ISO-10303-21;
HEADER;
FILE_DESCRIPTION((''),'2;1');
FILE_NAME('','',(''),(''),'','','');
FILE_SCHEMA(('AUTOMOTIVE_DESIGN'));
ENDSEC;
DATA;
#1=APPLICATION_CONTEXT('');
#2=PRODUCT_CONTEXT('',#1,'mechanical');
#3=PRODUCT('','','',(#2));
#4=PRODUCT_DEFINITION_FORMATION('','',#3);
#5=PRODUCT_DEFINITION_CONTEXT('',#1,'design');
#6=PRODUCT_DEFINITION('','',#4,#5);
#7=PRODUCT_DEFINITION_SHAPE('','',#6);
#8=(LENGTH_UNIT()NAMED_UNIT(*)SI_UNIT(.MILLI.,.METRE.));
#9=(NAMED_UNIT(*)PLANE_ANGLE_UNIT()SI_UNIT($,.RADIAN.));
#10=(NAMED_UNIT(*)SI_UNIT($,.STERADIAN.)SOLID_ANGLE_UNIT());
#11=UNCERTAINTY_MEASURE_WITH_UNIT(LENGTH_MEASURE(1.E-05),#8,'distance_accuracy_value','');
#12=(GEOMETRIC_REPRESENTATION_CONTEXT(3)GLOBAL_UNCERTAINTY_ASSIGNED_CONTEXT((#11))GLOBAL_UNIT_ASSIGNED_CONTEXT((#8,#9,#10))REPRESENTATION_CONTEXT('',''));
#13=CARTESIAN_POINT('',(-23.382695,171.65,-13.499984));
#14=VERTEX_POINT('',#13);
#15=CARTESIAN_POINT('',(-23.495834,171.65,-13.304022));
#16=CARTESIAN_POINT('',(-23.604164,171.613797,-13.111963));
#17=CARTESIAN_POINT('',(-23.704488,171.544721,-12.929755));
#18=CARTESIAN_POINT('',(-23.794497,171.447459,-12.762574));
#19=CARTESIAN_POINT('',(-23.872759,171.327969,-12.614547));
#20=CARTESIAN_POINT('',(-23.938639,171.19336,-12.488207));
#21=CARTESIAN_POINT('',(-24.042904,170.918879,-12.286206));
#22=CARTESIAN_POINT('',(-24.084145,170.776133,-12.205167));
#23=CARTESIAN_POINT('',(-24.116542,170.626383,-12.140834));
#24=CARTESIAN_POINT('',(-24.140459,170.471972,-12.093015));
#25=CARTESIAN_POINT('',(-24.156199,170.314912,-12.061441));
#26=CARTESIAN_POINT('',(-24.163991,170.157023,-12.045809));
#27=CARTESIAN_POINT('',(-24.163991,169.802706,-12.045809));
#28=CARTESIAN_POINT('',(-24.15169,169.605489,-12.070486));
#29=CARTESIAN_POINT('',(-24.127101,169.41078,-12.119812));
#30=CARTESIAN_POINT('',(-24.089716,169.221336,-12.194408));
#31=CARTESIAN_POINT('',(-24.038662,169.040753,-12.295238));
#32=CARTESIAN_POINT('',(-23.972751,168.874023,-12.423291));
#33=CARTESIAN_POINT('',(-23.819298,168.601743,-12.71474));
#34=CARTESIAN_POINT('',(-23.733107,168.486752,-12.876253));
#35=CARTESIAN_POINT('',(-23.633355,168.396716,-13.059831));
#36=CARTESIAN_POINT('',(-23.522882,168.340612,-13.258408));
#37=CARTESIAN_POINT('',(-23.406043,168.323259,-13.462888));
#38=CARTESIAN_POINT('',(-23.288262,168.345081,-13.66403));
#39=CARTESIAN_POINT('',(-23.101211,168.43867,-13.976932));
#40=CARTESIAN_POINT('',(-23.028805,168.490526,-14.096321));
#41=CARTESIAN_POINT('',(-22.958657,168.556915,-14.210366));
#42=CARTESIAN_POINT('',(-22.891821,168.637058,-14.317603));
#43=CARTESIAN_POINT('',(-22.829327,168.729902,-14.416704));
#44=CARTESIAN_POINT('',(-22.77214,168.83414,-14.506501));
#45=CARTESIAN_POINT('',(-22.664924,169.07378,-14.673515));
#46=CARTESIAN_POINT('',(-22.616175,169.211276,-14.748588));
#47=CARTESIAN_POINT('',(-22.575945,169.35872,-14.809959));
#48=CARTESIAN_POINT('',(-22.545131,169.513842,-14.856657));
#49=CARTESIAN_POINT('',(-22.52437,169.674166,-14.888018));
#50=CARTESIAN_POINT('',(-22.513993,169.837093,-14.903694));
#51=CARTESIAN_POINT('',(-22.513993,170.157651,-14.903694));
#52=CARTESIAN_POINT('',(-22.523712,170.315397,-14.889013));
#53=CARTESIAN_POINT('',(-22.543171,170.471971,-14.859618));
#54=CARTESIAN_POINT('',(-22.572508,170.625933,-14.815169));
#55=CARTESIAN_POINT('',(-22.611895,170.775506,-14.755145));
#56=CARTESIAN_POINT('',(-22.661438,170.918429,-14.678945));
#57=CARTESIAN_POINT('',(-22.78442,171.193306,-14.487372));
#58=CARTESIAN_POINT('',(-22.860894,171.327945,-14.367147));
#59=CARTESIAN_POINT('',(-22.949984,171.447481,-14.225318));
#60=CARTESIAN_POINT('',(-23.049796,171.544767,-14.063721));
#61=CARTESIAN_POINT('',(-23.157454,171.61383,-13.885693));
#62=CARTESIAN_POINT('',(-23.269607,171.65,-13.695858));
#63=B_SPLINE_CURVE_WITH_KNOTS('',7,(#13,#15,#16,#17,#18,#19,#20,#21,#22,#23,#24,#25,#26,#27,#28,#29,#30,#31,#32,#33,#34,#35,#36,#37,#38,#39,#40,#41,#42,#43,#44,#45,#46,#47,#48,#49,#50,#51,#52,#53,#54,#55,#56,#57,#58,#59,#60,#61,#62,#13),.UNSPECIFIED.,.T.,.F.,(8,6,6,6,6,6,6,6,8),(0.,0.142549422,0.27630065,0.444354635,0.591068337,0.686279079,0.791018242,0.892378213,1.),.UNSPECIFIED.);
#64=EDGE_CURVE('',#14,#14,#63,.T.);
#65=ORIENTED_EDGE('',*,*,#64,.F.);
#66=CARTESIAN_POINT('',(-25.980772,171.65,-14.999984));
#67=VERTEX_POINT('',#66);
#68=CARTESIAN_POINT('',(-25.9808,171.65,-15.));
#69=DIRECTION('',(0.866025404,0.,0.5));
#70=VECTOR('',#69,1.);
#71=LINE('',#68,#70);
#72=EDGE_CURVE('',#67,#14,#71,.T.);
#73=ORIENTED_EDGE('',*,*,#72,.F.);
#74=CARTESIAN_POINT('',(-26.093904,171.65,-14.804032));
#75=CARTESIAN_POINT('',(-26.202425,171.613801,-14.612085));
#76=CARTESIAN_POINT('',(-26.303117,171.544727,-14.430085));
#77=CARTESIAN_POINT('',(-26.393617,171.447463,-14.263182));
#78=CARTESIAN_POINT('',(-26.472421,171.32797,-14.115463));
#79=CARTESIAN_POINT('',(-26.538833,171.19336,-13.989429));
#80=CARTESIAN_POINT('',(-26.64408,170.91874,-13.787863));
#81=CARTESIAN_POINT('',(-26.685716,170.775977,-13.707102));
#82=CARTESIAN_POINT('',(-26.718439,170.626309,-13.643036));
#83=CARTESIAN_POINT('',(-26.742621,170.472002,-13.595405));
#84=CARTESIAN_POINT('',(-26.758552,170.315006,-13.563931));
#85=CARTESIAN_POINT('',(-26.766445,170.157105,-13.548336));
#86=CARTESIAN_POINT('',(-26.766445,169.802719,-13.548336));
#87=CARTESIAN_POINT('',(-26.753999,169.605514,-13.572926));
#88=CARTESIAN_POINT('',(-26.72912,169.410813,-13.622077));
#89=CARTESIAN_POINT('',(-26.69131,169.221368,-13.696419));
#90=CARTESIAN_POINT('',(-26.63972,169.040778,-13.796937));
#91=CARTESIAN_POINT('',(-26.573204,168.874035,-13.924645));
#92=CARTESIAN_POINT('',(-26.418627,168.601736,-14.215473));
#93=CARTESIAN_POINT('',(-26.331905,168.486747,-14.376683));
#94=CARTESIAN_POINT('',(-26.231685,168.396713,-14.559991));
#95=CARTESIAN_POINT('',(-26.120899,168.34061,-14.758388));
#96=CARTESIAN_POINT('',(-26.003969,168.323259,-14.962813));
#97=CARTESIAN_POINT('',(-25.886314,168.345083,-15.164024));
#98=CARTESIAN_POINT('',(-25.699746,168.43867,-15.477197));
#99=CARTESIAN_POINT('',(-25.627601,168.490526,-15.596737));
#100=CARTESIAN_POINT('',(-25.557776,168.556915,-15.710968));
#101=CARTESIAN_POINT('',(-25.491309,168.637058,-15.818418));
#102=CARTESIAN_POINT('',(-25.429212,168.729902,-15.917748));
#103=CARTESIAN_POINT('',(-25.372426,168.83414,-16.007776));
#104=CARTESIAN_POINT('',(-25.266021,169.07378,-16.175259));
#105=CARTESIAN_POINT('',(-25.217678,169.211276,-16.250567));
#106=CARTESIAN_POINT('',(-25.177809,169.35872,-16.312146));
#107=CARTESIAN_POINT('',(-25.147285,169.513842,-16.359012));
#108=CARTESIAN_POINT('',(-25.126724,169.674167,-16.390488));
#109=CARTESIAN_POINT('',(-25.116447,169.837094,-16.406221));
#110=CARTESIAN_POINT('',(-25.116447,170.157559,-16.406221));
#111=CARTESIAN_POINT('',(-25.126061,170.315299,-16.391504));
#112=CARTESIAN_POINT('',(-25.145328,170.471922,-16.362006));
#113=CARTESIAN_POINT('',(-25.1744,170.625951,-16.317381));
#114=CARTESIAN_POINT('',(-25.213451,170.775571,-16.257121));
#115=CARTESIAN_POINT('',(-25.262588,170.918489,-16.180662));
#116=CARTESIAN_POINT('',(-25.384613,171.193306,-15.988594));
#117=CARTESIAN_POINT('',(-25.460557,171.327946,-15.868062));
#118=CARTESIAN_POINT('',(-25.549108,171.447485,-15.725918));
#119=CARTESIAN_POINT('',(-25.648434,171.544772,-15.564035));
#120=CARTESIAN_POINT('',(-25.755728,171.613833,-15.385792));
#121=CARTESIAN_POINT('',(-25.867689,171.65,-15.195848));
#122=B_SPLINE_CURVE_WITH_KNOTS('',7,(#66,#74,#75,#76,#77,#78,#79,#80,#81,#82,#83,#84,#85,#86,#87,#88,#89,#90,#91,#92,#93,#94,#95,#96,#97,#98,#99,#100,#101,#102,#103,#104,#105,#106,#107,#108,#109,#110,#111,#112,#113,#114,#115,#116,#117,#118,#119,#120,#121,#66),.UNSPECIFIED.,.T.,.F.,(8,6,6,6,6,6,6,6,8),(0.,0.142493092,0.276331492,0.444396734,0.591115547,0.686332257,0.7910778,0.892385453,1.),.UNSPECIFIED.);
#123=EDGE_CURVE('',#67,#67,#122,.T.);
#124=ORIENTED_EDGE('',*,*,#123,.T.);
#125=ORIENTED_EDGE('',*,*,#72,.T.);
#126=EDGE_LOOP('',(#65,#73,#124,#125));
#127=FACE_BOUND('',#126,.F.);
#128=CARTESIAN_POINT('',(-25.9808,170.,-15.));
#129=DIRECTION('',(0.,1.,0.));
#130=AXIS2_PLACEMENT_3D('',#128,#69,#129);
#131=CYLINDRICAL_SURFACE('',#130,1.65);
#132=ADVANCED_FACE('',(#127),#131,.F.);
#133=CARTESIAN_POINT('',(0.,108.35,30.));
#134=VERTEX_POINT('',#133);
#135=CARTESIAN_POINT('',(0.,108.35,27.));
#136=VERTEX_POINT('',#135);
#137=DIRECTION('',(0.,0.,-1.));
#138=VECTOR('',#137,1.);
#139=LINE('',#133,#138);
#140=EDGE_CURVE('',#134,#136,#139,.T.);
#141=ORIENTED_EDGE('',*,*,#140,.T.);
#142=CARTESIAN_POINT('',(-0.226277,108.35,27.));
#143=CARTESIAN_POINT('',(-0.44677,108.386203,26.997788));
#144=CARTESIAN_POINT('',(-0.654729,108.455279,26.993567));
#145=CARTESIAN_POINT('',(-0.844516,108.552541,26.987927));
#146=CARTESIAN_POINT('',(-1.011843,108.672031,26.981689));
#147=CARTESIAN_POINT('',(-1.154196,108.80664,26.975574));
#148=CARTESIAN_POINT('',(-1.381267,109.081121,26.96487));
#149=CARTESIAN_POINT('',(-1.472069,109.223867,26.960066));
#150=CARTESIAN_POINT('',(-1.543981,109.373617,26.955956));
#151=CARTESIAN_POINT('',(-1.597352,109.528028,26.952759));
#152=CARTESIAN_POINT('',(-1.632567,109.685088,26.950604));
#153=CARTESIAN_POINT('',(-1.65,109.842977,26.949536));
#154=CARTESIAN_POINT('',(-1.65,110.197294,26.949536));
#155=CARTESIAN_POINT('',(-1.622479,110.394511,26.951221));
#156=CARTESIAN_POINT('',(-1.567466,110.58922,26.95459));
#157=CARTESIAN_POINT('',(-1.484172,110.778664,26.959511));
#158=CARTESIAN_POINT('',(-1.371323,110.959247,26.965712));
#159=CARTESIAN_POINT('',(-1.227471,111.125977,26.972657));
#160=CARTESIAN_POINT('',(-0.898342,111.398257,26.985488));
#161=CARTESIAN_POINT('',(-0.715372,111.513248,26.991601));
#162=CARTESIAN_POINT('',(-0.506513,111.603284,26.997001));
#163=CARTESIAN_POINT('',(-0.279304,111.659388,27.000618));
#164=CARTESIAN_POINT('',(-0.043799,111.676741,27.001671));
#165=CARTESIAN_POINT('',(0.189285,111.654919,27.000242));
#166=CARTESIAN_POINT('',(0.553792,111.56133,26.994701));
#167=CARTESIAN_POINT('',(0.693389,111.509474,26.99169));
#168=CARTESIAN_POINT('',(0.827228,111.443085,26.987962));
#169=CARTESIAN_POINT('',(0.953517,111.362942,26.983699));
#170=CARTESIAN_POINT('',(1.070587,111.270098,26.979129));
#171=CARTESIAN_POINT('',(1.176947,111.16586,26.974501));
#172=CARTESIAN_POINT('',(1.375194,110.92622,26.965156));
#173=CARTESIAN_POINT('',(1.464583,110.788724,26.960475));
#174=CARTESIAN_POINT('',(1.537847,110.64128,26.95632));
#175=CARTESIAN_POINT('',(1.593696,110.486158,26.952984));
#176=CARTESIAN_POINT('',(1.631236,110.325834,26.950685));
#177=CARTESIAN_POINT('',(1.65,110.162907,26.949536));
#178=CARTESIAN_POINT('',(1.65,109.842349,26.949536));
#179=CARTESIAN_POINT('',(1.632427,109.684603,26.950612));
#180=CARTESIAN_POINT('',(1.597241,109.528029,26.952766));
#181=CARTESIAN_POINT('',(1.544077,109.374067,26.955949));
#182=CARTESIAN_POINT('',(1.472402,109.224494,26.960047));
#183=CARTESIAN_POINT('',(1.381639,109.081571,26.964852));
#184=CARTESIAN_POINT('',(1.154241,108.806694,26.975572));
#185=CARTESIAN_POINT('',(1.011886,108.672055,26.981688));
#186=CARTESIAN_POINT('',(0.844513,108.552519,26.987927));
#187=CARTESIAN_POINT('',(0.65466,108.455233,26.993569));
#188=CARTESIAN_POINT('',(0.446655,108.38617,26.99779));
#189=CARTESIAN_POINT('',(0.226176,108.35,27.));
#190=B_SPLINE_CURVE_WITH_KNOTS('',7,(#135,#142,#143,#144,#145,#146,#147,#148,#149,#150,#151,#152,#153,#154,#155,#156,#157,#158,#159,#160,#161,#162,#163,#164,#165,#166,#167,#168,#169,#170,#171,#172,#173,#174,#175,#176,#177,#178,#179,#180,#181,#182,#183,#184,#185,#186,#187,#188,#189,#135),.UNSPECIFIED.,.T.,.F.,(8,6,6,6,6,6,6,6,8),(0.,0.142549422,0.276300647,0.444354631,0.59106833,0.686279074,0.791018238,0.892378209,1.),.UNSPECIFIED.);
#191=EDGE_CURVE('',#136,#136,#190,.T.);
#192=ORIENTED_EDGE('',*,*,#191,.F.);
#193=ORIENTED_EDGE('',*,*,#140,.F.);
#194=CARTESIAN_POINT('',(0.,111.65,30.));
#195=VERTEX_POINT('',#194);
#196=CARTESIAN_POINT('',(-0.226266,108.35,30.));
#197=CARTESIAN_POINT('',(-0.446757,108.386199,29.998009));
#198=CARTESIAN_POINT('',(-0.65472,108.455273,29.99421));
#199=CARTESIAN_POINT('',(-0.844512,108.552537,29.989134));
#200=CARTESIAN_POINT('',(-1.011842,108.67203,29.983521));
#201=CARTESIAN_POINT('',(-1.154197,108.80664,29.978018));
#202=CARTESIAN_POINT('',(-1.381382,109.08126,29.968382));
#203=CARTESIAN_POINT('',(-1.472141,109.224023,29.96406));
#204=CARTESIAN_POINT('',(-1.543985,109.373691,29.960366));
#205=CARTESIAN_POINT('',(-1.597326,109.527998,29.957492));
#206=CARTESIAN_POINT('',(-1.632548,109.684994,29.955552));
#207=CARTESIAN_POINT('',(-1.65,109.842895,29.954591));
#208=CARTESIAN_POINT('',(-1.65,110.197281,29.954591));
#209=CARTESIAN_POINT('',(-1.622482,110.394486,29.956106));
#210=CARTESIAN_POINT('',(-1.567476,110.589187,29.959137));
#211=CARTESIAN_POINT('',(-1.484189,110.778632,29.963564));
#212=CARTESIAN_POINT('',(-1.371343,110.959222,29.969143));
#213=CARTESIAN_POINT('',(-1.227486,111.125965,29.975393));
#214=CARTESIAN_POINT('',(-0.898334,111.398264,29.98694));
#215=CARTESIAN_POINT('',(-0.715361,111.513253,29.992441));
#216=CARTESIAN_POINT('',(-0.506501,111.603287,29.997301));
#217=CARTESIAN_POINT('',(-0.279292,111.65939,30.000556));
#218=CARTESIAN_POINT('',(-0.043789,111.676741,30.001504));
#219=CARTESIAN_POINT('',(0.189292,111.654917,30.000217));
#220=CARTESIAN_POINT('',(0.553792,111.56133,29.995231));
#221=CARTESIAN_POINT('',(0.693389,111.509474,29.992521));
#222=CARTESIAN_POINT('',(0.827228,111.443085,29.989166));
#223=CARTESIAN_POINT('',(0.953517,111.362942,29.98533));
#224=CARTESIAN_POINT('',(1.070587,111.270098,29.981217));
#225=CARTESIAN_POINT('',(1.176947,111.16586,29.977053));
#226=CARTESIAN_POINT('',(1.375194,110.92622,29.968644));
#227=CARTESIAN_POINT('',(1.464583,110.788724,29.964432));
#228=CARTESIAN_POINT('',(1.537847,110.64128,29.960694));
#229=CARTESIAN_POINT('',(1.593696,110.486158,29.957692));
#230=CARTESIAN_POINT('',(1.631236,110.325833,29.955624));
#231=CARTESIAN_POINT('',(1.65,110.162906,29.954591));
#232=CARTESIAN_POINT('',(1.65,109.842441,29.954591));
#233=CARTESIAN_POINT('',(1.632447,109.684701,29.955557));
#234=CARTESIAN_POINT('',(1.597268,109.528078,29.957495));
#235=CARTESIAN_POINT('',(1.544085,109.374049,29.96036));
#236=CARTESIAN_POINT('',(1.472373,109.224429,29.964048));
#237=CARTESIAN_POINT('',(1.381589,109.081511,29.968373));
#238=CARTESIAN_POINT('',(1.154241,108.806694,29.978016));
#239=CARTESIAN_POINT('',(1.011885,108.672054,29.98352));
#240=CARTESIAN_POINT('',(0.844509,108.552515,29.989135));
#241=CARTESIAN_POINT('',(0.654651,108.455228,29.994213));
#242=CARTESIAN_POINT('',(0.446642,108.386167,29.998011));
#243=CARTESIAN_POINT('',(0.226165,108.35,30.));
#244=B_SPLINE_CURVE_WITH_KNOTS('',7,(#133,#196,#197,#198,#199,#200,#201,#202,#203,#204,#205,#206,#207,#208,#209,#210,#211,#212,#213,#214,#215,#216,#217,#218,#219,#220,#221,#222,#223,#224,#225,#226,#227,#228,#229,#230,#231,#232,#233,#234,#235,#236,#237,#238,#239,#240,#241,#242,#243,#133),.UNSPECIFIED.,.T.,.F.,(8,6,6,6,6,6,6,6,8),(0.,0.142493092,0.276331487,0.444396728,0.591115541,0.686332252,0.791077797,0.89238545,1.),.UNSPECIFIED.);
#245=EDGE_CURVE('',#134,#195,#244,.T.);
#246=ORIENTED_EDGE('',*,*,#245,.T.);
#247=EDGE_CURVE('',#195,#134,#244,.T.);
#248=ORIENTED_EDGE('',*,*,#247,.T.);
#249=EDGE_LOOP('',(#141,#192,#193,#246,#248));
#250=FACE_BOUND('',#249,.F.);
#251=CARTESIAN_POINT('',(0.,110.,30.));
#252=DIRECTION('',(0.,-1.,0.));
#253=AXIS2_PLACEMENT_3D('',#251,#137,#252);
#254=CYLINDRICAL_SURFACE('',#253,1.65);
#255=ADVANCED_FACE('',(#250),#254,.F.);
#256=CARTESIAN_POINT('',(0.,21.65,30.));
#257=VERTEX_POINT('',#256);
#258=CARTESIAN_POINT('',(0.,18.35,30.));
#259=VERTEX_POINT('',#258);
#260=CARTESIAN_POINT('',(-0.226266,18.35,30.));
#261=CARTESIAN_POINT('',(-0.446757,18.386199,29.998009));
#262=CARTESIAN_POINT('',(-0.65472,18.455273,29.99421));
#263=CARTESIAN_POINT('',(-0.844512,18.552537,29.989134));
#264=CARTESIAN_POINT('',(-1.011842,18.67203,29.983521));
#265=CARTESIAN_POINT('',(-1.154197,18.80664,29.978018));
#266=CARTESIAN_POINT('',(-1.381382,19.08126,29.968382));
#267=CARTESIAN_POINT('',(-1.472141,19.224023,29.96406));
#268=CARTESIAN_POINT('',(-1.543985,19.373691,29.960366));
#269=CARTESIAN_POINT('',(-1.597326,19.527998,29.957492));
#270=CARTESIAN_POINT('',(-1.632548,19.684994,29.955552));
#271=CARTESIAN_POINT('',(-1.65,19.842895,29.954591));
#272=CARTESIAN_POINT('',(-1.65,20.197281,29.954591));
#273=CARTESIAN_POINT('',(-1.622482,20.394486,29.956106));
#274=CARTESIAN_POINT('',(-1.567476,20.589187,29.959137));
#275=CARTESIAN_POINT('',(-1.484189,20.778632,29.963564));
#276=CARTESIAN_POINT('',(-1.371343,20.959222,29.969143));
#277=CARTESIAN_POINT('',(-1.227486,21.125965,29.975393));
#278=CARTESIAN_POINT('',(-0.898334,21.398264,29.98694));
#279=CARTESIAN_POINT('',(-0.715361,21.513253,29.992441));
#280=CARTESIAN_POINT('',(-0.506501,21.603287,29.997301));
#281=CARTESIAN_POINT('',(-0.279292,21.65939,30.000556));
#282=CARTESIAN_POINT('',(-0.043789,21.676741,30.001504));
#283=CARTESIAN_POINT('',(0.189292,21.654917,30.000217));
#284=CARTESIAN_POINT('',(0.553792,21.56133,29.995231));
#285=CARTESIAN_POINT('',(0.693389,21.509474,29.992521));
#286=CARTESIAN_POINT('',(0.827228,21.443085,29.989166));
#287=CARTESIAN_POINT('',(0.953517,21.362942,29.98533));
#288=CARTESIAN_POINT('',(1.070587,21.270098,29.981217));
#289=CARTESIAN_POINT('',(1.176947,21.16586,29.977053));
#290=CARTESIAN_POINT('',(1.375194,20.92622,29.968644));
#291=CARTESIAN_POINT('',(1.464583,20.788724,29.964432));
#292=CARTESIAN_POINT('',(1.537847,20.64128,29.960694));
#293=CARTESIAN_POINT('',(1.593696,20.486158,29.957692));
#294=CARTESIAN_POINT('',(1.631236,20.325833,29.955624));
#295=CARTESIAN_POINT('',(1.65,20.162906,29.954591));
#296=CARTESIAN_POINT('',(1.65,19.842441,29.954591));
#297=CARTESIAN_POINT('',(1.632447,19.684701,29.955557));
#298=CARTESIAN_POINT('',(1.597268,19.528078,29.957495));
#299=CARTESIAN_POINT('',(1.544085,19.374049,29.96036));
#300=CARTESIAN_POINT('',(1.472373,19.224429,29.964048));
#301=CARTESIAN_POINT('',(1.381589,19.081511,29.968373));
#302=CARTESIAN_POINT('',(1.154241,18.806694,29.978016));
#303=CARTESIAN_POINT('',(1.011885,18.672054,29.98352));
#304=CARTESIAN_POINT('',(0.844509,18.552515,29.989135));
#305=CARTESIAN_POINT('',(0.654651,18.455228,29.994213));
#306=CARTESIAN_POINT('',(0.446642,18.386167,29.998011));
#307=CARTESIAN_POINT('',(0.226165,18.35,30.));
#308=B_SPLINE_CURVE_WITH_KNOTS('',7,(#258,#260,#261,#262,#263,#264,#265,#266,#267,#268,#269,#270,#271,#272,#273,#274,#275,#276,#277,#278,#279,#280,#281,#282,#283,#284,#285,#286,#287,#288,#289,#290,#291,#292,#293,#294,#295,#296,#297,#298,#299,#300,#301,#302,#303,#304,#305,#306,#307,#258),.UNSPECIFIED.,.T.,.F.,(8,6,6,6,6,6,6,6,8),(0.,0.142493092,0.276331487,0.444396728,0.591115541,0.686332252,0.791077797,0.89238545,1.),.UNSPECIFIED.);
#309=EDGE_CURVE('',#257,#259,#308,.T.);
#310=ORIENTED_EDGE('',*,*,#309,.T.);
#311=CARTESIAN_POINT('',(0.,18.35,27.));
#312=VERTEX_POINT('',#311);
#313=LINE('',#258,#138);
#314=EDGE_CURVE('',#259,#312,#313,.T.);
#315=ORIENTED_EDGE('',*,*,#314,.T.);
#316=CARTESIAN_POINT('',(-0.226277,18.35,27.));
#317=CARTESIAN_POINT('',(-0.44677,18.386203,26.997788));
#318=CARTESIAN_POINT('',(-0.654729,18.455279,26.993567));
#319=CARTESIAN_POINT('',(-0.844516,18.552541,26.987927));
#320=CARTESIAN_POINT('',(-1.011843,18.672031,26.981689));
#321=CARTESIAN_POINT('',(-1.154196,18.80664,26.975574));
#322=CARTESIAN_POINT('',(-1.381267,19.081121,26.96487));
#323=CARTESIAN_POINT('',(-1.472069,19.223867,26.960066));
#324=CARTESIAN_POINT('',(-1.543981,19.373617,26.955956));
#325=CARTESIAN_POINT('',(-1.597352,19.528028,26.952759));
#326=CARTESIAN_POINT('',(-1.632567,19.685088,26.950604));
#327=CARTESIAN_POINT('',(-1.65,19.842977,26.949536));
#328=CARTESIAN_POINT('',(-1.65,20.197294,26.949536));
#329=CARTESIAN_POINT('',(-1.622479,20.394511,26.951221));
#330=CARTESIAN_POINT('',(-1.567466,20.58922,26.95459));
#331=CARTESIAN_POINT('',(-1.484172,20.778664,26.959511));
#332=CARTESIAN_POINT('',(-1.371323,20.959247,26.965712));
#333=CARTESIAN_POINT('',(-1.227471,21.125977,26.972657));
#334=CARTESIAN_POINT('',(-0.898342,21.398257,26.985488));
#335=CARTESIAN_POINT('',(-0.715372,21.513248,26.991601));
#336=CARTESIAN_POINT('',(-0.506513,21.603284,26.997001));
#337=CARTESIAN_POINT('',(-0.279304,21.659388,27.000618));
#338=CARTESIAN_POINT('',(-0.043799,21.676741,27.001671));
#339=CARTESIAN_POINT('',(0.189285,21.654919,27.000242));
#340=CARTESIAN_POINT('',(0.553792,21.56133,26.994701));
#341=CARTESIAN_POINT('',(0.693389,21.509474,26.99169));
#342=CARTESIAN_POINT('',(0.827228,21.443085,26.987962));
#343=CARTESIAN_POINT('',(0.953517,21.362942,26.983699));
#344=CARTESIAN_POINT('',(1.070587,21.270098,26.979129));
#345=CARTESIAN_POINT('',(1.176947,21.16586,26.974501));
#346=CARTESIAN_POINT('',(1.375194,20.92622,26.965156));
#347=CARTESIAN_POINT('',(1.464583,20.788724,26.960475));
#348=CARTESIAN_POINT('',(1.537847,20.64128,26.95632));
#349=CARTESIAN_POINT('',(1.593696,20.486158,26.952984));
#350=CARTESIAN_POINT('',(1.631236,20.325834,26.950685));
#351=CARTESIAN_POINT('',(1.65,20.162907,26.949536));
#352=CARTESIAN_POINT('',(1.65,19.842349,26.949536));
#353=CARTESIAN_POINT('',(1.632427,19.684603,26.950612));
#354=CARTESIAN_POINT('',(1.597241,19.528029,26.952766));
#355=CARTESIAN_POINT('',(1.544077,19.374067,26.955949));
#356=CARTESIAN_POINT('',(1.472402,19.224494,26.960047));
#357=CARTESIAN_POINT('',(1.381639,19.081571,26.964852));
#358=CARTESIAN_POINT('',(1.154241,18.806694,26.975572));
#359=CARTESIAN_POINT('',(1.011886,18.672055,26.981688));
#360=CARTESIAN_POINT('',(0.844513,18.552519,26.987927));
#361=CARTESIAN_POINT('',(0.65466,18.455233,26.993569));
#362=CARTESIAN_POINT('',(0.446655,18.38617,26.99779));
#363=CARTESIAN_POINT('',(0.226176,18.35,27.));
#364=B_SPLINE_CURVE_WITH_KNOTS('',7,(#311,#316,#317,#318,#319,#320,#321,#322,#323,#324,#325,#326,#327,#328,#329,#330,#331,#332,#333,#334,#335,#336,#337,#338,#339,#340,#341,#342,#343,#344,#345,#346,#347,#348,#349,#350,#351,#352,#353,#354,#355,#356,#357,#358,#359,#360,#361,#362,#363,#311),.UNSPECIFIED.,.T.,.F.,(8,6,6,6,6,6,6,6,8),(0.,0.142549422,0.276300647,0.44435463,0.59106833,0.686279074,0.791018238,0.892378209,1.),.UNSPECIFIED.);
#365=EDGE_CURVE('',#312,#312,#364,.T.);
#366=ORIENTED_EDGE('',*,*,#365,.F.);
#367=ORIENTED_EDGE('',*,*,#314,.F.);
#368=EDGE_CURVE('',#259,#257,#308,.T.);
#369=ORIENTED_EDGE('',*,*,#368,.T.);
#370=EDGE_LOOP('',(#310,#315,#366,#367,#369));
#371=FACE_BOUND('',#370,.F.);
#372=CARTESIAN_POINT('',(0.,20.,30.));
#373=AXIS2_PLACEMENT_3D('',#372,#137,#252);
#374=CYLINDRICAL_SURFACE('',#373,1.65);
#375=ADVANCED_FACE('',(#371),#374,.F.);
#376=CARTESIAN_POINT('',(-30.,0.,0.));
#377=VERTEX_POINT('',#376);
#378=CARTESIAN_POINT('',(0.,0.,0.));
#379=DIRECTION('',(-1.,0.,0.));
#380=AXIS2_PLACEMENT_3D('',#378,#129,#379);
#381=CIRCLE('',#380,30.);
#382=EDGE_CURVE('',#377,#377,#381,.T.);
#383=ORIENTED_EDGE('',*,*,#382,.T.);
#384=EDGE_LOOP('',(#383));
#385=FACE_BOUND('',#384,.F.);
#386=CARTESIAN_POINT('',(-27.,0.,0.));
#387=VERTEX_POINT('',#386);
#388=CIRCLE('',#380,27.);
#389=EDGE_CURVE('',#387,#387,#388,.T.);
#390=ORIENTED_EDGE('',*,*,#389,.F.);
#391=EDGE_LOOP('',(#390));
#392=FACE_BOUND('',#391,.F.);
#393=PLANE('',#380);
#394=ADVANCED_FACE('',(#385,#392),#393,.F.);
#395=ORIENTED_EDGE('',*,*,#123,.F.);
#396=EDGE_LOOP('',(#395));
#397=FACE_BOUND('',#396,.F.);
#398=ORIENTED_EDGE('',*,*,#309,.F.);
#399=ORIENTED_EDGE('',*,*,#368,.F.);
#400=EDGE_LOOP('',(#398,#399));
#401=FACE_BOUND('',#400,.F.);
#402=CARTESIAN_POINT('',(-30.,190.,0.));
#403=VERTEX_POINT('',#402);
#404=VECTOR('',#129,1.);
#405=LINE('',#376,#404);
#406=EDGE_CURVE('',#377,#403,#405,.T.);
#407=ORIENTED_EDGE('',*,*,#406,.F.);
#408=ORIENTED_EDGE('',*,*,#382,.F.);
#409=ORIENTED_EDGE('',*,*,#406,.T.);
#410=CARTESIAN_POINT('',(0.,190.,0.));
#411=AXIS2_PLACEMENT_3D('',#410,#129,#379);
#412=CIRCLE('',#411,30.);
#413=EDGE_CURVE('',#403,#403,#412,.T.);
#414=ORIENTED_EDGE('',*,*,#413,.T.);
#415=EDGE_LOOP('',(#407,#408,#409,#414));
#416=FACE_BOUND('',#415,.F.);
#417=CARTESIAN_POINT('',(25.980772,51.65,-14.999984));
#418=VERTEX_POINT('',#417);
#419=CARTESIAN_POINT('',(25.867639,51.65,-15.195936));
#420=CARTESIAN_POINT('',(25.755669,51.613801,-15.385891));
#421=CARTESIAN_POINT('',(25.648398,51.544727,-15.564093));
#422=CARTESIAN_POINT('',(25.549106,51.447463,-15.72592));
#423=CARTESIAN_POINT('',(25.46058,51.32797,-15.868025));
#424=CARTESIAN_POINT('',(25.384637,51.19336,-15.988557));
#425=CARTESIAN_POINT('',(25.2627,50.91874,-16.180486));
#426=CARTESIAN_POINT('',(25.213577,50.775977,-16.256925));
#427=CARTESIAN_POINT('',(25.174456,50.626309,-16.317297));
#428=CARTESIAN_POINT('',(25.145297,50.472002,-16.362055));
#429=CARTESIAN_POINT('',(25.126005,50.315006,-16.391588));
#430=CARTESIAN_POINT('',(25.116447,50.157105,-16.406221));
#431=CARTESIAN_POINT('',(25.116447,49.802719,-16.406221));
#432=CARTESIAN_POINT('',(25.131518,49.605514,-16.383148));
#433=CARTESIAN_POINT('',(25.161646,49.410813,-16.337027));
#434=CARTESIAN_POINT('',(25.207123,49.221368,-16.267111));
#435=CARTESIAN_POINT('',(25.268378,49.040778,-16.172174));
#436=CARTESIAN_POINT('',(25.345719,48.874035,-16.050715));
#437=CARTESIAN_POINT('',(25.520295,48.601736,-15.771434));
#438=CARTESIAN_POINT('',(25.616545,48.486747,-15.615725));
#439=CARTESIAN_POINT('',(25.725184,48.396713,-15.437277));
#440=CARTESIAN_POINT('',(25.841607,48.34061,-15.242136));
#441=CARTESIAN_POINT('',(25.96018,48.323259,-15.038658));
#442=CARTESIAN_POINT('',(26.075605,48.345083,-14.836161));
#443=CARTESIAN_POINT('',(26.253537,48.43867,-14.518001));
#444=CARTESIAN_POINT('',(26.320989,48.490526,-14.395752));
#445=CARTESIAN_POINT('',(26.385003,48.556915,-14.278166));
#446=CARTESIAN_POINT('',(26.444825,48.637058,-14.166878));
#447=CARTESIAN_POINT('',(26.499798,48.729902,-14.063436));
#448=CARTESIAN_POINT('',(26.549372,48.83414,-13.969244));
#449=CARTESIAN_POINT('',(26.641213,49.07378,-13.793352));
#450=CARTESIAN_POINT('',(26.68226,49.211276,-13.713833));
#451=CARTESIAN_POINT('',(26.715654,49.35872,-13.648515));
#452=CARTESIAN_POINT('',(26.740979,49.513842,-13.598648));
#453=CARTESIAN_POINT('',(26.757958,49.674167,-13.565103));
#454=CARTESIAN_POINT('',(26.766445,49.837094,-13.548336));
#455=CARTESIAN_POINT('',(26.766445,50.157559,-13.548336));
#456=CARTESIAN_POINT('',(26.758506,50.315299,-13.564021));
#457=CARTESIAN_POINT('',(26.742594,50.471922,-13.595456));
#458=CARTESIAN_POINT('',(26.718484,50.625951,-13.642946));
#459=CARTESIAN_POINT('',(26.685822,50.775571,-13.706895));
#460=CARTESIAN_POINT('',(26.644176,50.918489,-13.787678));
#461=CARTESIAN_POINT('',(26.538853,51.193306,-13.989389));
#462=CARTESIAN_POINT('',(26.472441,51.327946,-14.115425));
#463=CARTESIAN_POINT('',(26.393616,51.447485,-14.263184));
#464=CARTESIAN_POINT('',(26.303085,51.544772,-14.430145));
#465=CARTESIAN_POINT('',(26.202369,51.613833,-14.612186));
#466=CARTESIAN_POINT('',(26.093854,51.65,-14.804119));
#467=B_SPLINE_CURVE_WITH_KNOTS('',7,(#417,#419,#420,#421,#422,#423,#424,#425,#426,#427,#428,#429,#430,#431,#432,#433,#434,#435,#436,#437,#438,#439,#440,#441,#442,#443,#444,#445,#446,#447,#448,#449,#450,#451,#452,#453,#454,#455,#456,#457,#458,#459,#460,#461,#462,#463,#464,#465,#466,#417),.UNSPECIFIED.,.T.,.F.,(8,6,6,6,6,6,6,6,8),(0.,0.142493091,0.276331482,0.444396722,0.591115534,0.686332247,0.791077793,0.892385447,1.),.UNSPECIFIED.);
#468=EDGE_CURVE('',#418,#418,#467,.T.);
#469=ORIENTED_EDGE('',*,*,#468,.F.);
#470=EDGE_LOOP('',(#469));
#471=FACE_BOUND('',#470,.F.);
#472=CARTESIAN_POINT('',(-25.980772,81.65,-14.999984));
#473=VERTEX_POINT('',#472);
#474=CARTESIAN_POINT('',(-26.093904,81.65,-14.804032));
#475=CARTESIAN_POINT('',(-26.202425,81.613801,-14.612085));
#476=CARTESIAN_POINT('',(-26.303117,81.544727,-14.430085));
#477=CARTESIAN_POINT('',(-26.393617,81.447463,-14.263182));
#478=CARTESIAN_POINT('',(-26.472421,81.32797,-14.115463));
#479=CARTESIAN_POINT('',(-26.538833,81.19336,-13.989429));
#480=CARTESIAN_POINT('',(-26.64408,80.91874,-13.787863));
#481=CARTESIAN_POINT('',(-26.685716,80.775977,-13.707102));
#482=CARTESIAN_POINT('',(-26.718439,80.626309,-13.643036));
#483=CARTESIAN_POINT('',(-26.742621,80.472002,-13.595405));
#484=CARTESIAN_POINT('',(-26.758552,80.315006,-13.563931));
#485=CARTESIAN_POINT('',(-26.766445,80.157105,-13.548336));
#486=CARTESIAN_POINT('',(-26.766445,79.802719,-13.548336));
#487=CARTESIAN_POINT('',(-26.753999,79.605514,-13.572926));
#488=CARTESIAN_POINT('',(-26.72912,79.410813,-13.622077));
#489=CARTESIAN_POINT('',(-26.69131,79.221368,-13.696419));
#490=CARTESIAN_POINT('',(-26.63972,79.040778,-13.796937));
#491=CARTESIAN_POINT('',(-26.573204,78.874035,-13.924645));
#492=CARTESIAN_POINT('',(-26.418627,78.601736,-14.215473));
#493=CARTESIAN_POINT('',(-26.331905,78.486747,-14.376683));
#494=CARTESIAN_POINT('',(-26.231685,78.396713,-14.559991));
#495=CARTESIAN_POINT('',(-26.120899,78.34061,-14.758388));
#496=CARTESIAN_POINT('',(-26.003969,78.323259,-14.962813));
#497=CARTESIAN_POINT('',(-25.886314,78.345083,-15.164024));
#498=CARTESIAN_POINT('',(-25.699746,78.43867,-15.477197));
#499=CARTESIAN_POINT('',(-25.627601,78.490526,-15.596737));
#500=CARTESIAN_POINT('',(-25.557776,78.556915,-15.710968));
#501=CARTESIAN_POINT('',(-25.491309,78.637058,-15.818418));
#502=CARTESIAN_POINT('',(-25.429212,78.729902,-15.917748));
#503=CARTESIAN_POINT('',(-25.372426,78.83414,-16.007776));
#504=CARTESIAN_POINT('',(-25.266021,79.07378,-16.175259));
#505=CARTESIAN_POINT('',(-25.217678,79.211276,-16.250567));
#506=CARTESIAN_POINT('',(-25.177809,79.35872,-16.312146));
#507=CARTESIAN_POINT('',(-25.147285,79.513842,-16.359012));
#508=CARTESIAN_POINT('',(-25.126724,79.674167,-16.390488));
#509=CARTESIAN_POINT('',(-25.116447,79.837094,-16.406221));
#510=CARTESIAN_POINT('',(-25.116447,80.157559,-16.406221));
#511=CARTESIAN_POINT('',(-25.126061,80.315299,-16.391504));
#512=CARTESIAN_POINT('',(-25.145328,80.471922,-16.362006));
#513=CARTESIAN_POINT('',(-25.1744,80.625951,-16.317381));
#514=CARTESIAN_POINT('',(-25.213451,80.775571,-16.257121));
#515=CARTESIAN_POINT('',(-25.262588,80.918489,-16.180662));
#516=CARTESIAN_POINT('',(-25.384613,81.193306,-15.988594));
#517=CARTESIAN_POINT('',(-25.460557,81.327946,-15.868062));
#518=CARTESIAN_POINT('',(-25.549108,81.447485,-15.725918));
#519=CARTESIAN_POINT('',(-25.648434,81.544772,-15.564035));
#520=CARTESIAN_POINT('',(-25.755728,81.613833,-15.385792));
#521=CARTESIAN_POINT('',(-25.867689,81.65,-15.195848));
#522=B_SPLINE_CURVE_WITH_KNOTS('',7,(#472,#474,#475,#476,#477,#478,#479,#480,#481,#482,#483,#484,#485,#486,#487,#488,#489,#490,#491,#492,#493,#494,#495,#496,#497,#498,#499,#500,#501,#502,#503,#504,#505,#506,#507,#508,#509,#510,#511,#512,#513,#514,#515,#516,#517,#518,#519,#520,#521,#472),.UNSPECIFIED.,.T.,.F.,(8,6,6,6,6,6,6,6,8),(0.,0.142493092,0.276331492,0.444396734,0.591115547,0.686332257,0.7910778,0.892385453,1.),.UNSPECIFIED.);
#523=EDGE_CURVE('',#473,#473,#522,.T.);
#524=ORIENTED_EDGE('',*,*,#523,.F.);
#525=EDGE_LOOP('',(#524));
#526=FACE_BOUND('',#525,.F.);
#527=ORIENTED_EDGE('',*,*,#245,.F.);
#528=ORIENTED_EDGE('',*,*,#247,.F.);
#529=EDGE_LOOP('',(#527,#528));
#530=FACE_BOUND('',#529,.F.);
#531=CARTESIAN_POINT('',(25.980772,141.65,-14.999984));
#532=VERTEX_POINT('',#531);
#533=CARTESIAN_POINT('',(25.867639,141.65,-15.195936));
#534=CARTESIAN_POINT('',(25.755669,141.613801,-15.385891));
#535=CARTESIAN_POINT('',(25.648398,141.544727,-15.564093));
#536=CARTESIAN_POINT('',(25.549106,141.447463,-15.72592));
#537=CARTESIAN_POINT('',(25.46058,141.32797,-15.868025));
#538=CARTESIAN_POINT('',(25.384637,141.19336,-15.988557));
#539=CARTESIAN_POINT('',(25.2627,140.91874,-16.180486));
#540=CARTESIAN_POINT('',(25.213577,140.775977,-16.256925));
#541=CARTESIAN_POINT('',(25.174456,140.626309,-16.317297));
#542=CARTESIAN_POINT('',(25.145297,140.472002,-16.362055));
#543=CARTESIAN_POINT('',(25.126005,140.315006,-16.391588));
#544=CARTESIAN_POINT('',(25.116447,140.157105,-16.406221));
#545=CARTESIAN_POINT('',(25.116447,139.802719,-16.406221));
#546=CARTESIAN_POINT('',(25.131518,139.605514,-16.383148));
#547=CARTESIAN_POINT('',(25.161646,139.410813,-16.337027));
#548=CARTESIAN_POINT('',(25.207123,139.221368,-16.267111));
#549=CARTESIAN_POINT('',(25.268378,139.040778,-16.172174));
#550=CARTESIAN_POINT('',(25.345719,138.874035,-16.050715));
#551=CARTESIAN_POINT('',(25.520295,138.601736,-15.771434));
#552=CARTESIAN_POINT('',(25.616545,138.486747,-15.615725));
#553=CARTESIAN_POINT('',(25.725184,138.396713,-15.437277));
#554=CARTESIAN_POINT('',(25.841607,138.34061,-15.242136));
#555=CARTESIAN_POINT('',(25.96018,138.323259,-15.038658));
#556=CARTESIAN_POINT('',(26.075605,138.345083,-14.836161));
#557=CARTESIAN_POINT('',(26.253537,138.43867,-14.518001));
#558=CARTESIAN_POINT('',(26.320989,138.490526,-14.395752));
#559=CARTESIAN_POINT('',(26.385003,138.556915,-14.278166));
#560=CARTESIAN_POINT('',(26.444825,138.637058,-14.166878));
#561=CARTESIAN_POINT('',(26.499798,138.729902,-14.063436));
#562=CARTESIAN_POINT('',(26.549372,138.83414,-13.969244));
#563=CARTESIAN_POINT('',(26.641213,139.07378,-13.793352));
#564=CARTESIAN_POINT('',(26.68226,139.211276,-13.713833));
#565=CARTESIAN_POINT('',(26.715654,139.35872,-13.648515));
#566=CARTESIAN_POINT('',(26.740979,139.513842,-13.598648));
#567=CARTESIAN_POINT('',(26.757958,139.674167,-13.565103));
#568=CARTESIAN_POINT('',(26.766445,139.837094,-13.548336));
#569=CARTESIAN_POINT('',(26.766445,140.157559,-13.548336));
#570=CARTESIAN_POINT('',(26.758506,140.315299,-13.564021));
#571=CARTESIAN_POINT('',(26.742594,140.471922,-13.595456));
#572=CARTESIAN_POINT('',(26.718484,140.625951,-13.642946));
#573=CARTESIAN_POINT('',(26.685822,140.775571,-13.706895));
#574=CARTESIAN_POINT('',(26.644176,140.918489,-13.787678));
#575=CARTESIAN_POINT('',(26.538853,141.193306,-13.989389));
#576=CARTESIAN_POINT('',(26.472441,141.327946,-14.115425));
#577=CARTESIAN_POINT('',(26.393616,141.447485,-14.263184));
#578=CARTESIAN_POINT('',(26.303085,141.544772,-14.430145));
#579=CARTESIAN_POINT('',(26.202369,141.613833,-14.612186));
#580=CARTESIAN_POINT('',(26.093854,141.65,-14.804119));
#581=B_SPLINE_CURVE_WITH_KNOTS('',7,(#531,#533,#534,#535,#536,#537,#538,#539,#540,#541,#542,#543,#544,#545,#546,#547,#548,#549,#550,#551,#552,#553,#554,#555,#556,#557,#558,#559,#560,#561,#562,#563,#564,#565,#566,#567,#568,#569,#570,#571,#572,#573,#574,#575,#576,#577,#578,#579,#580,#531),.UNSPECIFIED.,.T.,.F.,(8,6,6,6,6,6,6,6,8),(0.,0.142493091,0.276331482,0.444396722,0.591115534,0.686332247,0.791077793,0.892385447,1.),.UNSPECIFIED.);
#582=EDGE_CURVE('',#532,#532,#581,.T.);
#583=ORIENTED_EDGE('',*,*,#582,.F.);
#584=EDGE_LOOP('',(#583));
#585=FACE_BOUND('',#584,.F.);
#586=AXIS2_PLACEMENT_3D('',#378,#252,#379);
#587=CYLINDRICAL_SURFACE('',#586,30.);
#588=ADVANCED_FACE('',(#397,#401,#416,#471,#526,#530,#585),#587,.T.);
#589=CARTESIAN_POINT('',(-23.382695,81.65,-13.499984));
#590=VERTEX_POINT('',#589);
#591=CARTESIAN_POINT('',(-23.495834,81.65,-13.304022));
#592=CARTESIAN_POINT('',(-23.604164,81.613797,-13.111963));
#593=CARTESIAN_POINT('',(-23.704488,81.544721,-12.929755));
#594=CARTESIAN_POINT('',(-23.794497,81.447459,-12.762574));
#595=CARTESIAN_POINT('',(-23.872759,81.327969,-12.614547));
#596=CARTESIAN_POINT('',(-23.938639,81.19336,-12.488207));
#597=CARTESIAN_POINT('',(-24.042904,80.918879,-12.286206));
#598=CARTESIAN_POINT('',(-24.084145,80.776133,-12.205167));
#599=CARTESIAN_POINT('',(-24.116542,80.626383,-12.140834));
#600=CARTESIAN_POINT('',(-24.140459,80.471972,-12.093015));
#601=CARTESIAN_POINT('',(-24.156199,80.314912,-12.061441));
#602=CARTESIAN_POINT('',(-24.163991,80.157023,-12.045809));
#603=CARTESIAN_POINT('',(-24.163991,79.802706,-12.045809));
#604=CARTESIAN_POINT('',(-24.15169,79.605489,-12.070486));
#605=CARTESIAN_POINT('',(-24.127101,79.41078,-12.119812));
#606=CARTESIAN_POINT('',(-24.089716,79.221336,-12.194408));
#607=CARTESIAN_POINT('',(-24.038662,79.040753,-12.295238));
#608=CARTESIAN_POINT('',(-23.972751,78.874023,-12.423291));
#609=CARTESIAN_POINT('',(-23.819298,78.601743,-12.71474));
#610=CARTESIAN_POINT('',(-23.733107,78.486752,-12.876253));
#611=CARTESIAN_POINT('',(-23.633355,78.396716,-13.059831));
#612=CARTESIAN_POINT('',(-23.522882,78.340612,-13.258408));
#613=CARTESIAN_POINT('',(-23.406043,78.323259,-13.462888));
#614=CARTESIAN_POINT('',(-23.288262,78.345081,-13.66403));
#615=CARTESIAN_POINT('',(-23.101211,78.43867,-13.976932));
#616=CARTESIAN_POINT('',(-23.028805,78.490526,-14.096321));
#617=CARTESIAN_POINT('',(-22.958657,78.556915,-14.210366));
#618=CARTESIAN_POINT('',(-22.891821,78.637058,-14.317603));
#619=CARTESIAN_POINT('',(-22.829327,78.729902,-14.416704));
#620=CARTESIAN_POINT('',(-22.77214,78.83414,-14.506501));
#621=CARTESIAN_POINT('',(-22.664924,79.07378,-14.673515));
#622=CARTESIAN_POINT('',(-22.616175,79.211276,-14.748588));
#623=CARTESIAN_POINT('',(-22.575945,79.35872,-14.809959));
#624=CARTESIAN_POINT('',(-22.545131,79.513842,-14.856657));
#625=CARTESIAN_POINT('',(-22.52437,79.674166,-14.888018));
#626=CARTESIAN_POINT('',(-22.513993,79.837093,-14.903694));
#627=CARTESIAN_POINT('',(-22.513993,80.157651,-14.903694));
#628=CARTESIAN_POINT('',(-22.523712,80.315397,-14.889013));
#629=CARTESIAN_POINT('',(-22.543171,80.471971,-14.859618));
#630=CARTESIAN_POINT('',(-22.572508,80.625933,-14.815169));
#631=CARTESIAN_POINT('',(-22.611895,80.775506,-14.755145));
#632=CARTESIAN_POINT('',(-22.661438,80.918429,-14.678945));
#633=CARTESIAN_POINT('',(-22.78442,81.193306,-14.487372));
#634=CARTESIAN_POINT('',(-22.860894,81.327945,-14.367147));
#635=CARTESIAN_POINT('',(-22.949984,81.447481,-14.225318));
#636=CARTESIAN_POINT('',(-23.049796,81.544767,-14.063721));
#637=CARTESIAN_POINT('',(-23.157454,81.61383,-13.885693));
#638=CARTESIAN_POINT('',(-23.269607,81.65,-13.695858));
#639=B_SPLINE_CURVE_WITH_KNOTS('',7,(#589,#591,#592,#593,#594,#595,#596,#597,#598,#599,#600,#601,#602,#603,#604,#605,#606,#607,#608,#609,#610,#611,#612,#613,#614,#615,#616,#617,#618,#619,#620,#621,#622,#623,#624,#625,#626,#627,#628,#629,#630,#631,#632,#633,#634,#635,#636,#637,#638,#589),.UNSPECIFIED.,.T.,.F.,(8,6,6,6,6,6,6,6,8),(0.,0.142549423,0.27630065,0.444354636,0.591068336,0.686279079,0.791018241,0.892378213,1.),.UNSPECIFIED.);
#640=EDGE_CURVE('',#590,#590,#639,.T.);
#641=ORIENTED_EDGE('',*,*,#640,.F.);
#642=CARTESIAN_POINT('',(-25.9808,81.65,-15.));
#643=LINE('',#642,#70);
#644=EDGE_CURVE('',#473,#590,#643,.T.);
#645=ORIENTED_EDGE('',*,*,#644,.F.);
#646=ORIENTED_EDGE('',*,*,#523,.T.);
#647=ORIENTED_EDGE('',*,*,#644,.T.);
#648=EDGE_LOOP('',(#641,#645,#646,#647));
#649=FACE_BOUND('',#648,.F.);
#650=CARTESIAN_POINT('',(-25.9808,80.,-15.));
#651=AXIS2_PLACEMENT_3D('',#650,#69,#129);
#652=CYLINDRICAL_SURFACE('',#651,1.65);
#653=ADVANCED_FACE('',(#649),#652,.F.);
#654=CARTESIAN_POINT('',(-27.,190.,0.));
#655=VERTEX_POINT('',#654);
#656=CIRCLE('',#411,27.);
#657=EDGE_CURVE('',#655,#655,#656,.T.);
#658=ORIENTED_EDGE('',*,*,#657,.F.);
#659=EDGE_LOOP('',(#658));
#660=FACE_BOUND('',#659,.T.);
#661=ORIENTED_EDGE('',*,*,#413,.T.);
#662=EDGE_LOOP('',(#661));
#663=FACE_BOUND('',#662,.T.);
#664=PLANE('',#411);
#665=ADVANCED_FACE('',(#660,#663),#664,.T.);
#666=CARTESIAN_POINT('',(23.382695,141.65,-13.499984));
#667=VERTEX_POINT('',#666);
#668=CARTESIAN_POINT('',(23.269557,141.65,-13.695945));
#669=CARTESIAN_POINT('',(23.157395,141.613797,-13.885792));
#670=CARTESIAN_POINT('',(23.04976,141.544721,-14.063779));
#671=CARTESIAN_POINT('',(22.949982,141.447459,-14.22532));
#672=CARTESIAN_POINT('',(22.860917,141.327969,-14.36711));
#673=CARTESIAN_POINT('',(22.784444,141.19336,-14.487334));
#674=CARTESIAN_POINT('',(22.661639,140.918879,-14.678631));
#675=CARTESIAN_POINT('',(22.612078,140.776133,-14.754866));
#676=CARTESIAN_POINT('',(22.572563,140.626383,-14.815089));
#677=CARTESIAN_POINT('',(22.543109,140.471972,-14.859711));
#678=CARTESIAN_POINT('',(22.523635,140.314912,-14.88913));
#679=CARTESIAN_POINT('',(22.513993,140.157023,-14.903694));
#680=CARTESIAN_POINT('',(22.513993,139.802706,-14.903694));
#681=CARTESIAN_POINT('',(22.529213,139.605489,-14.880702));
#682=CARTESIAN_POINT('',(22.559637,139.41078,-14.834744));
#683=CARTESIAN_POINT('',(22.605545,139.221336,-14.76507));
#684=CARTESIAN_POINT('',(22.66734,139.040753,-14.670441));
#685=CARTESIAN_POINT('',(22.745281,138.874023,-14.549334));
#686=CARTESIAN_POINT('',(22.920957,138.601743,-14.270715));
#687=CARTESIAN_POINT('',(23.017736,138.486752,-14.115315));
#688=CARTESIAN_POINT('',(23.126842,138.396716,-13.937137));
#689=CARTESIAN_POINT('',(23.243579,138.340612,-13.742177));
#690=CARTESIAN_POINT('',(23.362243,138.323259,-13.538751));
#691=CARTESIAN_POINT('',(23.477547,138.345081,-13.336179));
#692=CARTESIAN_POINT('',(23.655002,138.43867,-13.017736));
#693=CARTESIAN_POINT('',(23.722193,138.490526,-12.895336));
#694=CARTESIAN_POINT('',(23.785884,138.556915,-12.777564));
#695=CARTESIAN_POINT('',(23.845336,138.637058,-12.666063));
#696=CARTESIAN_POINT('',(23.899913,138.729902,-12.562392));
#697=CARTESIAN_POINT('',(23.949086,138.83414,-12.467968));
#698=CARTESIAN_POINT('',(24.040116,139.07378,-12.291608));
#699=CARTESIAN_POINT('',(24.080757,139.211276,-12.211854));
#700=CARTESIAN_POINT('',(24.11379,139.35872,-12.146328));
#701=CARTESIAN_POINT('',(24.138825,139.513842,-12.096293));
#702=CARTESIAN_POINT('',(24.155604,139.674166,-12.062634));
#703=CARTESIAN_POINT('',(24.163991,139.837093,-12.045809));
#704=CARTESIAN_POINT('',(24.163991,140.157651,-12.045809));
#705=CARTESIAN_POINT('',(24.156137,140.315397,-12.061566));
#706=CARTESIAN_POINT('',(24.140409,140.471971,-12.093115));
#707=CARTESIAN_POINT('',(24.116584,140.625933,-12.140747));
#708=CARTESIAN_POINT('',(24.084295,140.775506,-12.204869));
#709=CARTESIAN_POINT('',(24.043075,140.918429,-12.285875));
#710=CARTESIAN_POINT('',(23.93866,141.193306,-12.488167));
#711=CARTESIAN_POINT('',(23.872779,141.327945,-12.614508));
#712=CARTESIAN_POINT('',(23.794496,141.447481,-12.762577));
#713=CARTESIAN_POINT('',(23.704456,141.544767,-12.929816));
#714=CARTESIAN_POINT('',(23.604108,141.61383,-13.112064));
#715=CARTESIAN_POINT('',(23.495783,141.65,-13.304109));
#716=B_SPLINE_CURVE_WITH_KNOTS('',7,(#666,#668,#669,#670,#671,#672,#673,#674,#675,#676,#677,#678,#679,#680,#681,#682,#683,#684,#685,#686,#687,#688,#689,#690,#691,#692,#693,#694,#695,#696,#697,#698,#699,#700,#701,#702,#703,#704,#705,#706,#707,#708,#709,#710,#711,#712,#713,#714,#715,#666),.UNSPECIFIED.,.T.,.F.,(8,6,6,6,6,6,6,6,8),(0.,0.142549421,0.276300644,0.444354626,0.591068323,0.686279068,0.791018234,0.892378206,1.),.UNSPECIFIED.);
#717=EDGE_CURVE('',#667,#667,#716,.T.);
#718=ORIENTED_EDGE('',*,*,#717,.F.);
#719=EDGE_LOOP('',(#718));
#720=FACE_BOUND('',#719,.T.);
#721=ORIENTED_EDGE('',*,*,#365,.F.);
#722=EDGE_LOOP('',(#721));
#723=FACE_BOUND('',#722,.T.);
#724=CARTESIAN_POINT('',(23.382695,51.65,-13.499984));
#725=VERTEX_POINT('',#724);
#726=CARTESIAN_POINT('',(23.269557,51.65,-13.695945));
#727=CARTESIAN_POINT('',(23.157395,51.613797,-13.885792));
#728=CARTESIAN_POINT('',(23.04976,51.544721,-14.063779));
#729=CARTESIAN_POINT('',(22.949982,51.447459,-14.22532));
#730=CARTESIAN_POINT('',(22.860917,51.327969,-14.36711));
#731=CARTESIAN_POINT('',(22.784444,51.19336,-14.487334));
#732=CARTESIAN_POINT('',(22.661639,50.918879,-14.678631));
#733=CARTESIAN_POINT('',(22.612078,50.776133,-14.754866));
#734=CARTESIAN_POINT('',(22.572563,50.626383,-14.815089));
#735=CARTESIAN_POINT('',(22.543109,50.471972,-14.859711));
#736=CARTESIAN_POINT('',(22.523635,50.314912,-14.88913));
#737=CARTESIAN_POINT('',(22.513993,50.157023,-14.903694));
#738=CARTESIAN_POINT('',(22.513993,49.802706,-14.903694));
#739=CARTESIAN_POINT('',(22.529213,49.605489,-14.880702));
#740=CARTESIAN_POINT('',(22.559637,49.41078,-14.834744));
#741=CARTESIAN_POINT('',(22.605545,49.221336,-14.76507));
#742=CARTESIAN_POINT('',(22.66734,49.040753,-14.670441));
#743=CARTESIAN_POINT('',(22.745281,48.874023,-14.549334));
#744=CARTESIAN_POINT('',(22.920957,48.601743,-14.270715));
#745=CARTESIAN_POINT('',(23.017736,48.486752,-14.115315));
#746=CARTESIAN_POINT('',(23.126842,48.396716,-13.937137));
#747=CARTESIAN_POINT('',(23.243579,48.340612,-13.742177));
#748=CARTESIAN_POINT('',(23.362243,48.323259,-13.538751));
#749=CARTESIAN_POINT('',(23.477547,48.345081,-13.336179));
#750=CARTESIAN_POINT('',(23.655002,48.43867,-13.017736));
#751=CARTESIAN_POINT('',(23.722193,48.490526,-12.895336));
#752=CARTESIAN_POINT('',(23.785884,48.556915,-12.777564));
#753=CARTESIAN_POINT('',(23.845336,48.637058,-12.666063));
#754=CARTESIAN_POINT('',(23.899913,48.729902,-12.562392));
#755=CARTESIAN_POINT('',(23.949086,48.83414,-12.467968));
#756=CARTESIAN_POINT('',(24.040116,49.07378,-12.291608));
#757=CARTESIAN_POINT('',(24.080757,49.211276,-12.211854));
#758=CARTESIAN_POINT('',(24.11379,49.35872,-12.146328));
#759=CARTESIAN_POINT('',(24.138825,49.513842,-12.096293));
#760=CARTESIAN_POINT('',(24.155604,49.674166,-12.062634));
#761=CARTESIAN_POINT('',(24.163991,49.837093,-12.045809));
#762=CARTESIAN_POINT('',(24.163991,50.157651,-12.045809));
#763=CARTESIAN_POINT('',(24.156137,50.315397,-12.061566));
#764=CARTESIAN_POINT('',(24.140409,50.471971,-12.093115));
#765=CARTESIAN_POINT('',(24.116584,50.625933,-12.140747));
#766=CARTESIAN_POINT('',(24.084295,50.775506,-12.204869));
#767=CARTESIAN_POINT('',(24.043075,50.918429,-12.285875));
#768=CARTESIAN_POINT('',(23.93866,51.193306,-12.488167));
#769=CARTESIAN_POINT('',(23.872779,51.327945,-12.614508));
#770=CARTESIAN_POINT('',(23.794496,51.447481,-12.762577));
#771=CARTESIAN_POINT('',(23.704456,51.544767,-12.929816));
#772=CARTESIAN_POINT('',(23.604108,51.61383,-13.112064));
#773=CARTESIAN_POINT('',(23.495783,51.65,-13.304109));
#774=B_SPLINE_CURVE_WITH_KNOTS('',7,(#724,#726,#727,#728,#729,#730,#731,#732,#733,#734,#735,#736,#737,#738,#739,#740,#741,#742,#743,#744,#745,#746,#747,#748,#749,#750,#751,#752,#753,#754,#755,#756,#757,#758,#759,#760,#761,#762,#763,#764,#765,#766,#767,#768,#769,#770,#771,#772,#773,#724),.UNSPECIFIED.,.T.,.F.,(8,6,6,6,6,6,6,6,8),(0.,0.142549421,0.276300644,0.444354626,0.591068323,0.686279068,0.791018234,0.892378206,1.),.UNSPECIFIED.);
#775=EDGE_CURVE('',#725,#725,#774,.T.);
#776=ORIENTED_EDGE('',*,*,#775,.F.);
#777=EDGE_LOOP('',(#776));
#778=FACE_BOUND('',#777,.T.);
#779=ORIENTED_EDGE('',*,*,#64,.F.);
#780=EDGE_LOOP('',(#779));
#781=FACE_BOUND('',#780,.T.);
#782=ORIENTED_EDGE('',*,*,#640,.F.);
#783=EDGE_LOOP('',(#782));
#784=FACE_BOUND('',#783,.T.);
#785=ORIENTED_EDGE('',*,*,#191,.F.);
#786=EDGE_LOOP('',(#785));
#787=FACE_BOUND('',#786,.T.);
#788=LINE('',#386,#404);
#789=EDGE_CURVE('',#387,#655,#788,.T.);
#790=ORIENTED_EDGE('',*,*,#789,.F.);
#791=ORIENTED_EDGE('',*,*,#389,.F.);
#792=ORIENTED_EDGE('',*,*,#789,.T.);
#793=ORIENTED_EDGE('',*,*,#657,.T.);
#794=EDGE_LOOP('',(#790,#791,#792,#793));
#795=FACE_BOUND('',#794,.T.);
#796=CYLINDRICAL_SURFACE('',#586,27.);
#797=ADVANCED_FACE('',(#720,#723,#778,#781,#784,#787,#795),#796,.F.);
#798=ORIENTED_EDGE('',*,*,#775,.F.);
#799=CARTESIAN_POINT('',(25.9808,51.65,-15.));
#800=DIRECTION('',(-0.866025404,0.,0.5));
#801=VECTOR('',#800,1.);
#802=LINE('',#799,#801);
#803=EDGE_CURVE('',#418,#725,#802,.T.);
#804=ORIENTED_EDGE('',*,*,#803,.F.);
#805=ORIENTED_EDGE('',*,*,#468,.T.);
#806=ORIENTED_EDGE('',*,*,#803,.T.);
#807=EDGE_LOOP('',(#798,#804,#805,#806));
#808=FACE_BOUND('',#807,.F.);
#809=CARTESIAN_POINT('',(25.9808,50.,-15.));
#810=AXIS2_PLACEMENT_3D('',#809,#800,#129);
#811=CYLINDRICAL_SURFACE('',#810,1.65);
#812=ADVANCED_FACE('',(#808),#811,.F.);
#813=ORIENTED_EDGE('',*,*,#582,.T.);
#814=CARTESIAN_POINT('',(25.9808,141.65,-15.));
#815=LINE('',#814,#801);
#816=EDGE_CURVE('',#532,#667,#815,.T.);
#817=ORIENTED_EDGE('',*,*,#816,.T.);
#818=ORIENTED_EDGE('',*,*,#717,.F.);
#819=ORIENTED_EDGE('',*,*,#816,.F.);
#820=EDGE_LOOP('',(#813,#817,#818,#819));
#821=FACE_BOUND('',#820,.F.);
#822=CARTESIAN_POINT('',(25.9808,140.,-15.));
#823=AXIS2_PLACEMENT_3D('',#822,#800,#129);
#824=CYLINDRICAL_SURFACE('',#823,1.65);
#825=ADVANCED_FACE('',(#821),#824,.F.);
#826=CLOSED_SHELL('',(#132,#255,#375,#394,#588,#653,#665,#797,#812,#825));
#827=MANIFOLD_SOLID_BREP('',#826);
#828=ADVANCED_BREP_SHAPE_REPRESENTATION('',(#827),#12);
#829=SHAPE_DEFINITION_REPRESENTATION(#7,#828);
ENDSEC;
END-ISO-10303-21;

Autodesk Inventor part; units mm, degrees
ref_plane "YZ Plane" through (0, 0, 0) normal (1, 0, 0) x (0, 1, 0)
ref_plane "XZ Plane" through (0, 0, 0) normal (0, 1, 0) x (-1, 0, 0)
ref_plane "XY Plane" through (0, 0, 0) normal (0, 0, 1) x (1, 0, 0)
sketch "Skizze1" plane through (0, 0, 0) normal (0, 1, 0) x (-1, 0, 0)
  circle A0 centre (0, 0) radius 27
  circle A1 centre (0, 0) radius 30
  dimension "d0" = 54
  dimension "d10" = 60
extrude "Extrusion1" add sketch "Skizze1" along normal blind 190
sketch "Skizze4" plane through (0, 0, 0) normal (0, -1, 0) x (1, 0, 0)
  circle A0 centre (0, 0) radius 30 projected
  point P0 (0, 30)
  point P1 (-25.9808, -15)
  point P2 (25.9808, -15)
  dimension "d11" = 30
  dimension "d14" = 360
ref_plane "Arbeitsebene2" through (0, 0, 30) normal (0, 0, 1) x (1, 0, 0)
ref_plane "Arbeitsebene3" through (25.9808, 0, -15) normal (0.866, 0, -0.5) x (0, 1, 0)
ref_plane "Arbeitsebene4" through (-25.9808, 0, -15) normal (-0.866, 0, -0.5) x (0, -1, 0)
sketch "Skizze5" plane through (25.9808, 0, -15) normal (0.866, 0, -0.5) x (0, 1, 0)
  line L0 (0, 30) -> (0, -30) projected
  line L1 (0, 30) -> (190, 30) projected
  point P0 (0, 0)
  point P1 (50, 0)
  point P2 (140, 0)
  dimension "d16" = 50
  dimension "d17" = 90
  dimension "d18" = 30
  dimension "d19" = 30
sketch "Skizze6" plane through (0, 0, 30) normal (0, 0, 1) x (1, 0, 0)
  line L0 (-30, 0) -> (-30, 190) projected
  line L1 (-30, 0) -> (30, 0) projected
  point P0 (0, 0)
  point P1 (0, 20)
  point P2 (0, 110)
  dimension "d20" = 90
  dimension "d21" = 30
  dimension "d22" = 30
  dimension "d23" = 20
sketch "Skizze7" plane through (-25.9808, 0, -15) normal (-0.866, 0, -0.5) x (0, -1, 0)
  line L0 (0, 30) -> (-190, 30) projected
  point P0 (0, 0)
  point P1 (-80, 0)
  point P2 (-170, 0)
  dimension "d24" = 30
  dimension "d25" = 80
  dimension "d47" = 90
  dimension "d48" = 30
hole "Bohrung1" at (-25.9808, 80, -15) at (-25.9808, 170, -15) direction (0.866, 0, 0.5) diameter 3.3 depth 8 tip angle 118
hole "Bohrung2" at (0, 110, 30) at (0, 20, 30) direction (0, 0, -1) diameter 3.3 depth 8 tip angle 118
hole "Bohrung3" at (25.9808, 50, -15) at (25.9808, 140, -15) direction (-0.866, 0, 0.5) diameter 3.3 depth 8 tip angle 118
properties part number "cylinder"
